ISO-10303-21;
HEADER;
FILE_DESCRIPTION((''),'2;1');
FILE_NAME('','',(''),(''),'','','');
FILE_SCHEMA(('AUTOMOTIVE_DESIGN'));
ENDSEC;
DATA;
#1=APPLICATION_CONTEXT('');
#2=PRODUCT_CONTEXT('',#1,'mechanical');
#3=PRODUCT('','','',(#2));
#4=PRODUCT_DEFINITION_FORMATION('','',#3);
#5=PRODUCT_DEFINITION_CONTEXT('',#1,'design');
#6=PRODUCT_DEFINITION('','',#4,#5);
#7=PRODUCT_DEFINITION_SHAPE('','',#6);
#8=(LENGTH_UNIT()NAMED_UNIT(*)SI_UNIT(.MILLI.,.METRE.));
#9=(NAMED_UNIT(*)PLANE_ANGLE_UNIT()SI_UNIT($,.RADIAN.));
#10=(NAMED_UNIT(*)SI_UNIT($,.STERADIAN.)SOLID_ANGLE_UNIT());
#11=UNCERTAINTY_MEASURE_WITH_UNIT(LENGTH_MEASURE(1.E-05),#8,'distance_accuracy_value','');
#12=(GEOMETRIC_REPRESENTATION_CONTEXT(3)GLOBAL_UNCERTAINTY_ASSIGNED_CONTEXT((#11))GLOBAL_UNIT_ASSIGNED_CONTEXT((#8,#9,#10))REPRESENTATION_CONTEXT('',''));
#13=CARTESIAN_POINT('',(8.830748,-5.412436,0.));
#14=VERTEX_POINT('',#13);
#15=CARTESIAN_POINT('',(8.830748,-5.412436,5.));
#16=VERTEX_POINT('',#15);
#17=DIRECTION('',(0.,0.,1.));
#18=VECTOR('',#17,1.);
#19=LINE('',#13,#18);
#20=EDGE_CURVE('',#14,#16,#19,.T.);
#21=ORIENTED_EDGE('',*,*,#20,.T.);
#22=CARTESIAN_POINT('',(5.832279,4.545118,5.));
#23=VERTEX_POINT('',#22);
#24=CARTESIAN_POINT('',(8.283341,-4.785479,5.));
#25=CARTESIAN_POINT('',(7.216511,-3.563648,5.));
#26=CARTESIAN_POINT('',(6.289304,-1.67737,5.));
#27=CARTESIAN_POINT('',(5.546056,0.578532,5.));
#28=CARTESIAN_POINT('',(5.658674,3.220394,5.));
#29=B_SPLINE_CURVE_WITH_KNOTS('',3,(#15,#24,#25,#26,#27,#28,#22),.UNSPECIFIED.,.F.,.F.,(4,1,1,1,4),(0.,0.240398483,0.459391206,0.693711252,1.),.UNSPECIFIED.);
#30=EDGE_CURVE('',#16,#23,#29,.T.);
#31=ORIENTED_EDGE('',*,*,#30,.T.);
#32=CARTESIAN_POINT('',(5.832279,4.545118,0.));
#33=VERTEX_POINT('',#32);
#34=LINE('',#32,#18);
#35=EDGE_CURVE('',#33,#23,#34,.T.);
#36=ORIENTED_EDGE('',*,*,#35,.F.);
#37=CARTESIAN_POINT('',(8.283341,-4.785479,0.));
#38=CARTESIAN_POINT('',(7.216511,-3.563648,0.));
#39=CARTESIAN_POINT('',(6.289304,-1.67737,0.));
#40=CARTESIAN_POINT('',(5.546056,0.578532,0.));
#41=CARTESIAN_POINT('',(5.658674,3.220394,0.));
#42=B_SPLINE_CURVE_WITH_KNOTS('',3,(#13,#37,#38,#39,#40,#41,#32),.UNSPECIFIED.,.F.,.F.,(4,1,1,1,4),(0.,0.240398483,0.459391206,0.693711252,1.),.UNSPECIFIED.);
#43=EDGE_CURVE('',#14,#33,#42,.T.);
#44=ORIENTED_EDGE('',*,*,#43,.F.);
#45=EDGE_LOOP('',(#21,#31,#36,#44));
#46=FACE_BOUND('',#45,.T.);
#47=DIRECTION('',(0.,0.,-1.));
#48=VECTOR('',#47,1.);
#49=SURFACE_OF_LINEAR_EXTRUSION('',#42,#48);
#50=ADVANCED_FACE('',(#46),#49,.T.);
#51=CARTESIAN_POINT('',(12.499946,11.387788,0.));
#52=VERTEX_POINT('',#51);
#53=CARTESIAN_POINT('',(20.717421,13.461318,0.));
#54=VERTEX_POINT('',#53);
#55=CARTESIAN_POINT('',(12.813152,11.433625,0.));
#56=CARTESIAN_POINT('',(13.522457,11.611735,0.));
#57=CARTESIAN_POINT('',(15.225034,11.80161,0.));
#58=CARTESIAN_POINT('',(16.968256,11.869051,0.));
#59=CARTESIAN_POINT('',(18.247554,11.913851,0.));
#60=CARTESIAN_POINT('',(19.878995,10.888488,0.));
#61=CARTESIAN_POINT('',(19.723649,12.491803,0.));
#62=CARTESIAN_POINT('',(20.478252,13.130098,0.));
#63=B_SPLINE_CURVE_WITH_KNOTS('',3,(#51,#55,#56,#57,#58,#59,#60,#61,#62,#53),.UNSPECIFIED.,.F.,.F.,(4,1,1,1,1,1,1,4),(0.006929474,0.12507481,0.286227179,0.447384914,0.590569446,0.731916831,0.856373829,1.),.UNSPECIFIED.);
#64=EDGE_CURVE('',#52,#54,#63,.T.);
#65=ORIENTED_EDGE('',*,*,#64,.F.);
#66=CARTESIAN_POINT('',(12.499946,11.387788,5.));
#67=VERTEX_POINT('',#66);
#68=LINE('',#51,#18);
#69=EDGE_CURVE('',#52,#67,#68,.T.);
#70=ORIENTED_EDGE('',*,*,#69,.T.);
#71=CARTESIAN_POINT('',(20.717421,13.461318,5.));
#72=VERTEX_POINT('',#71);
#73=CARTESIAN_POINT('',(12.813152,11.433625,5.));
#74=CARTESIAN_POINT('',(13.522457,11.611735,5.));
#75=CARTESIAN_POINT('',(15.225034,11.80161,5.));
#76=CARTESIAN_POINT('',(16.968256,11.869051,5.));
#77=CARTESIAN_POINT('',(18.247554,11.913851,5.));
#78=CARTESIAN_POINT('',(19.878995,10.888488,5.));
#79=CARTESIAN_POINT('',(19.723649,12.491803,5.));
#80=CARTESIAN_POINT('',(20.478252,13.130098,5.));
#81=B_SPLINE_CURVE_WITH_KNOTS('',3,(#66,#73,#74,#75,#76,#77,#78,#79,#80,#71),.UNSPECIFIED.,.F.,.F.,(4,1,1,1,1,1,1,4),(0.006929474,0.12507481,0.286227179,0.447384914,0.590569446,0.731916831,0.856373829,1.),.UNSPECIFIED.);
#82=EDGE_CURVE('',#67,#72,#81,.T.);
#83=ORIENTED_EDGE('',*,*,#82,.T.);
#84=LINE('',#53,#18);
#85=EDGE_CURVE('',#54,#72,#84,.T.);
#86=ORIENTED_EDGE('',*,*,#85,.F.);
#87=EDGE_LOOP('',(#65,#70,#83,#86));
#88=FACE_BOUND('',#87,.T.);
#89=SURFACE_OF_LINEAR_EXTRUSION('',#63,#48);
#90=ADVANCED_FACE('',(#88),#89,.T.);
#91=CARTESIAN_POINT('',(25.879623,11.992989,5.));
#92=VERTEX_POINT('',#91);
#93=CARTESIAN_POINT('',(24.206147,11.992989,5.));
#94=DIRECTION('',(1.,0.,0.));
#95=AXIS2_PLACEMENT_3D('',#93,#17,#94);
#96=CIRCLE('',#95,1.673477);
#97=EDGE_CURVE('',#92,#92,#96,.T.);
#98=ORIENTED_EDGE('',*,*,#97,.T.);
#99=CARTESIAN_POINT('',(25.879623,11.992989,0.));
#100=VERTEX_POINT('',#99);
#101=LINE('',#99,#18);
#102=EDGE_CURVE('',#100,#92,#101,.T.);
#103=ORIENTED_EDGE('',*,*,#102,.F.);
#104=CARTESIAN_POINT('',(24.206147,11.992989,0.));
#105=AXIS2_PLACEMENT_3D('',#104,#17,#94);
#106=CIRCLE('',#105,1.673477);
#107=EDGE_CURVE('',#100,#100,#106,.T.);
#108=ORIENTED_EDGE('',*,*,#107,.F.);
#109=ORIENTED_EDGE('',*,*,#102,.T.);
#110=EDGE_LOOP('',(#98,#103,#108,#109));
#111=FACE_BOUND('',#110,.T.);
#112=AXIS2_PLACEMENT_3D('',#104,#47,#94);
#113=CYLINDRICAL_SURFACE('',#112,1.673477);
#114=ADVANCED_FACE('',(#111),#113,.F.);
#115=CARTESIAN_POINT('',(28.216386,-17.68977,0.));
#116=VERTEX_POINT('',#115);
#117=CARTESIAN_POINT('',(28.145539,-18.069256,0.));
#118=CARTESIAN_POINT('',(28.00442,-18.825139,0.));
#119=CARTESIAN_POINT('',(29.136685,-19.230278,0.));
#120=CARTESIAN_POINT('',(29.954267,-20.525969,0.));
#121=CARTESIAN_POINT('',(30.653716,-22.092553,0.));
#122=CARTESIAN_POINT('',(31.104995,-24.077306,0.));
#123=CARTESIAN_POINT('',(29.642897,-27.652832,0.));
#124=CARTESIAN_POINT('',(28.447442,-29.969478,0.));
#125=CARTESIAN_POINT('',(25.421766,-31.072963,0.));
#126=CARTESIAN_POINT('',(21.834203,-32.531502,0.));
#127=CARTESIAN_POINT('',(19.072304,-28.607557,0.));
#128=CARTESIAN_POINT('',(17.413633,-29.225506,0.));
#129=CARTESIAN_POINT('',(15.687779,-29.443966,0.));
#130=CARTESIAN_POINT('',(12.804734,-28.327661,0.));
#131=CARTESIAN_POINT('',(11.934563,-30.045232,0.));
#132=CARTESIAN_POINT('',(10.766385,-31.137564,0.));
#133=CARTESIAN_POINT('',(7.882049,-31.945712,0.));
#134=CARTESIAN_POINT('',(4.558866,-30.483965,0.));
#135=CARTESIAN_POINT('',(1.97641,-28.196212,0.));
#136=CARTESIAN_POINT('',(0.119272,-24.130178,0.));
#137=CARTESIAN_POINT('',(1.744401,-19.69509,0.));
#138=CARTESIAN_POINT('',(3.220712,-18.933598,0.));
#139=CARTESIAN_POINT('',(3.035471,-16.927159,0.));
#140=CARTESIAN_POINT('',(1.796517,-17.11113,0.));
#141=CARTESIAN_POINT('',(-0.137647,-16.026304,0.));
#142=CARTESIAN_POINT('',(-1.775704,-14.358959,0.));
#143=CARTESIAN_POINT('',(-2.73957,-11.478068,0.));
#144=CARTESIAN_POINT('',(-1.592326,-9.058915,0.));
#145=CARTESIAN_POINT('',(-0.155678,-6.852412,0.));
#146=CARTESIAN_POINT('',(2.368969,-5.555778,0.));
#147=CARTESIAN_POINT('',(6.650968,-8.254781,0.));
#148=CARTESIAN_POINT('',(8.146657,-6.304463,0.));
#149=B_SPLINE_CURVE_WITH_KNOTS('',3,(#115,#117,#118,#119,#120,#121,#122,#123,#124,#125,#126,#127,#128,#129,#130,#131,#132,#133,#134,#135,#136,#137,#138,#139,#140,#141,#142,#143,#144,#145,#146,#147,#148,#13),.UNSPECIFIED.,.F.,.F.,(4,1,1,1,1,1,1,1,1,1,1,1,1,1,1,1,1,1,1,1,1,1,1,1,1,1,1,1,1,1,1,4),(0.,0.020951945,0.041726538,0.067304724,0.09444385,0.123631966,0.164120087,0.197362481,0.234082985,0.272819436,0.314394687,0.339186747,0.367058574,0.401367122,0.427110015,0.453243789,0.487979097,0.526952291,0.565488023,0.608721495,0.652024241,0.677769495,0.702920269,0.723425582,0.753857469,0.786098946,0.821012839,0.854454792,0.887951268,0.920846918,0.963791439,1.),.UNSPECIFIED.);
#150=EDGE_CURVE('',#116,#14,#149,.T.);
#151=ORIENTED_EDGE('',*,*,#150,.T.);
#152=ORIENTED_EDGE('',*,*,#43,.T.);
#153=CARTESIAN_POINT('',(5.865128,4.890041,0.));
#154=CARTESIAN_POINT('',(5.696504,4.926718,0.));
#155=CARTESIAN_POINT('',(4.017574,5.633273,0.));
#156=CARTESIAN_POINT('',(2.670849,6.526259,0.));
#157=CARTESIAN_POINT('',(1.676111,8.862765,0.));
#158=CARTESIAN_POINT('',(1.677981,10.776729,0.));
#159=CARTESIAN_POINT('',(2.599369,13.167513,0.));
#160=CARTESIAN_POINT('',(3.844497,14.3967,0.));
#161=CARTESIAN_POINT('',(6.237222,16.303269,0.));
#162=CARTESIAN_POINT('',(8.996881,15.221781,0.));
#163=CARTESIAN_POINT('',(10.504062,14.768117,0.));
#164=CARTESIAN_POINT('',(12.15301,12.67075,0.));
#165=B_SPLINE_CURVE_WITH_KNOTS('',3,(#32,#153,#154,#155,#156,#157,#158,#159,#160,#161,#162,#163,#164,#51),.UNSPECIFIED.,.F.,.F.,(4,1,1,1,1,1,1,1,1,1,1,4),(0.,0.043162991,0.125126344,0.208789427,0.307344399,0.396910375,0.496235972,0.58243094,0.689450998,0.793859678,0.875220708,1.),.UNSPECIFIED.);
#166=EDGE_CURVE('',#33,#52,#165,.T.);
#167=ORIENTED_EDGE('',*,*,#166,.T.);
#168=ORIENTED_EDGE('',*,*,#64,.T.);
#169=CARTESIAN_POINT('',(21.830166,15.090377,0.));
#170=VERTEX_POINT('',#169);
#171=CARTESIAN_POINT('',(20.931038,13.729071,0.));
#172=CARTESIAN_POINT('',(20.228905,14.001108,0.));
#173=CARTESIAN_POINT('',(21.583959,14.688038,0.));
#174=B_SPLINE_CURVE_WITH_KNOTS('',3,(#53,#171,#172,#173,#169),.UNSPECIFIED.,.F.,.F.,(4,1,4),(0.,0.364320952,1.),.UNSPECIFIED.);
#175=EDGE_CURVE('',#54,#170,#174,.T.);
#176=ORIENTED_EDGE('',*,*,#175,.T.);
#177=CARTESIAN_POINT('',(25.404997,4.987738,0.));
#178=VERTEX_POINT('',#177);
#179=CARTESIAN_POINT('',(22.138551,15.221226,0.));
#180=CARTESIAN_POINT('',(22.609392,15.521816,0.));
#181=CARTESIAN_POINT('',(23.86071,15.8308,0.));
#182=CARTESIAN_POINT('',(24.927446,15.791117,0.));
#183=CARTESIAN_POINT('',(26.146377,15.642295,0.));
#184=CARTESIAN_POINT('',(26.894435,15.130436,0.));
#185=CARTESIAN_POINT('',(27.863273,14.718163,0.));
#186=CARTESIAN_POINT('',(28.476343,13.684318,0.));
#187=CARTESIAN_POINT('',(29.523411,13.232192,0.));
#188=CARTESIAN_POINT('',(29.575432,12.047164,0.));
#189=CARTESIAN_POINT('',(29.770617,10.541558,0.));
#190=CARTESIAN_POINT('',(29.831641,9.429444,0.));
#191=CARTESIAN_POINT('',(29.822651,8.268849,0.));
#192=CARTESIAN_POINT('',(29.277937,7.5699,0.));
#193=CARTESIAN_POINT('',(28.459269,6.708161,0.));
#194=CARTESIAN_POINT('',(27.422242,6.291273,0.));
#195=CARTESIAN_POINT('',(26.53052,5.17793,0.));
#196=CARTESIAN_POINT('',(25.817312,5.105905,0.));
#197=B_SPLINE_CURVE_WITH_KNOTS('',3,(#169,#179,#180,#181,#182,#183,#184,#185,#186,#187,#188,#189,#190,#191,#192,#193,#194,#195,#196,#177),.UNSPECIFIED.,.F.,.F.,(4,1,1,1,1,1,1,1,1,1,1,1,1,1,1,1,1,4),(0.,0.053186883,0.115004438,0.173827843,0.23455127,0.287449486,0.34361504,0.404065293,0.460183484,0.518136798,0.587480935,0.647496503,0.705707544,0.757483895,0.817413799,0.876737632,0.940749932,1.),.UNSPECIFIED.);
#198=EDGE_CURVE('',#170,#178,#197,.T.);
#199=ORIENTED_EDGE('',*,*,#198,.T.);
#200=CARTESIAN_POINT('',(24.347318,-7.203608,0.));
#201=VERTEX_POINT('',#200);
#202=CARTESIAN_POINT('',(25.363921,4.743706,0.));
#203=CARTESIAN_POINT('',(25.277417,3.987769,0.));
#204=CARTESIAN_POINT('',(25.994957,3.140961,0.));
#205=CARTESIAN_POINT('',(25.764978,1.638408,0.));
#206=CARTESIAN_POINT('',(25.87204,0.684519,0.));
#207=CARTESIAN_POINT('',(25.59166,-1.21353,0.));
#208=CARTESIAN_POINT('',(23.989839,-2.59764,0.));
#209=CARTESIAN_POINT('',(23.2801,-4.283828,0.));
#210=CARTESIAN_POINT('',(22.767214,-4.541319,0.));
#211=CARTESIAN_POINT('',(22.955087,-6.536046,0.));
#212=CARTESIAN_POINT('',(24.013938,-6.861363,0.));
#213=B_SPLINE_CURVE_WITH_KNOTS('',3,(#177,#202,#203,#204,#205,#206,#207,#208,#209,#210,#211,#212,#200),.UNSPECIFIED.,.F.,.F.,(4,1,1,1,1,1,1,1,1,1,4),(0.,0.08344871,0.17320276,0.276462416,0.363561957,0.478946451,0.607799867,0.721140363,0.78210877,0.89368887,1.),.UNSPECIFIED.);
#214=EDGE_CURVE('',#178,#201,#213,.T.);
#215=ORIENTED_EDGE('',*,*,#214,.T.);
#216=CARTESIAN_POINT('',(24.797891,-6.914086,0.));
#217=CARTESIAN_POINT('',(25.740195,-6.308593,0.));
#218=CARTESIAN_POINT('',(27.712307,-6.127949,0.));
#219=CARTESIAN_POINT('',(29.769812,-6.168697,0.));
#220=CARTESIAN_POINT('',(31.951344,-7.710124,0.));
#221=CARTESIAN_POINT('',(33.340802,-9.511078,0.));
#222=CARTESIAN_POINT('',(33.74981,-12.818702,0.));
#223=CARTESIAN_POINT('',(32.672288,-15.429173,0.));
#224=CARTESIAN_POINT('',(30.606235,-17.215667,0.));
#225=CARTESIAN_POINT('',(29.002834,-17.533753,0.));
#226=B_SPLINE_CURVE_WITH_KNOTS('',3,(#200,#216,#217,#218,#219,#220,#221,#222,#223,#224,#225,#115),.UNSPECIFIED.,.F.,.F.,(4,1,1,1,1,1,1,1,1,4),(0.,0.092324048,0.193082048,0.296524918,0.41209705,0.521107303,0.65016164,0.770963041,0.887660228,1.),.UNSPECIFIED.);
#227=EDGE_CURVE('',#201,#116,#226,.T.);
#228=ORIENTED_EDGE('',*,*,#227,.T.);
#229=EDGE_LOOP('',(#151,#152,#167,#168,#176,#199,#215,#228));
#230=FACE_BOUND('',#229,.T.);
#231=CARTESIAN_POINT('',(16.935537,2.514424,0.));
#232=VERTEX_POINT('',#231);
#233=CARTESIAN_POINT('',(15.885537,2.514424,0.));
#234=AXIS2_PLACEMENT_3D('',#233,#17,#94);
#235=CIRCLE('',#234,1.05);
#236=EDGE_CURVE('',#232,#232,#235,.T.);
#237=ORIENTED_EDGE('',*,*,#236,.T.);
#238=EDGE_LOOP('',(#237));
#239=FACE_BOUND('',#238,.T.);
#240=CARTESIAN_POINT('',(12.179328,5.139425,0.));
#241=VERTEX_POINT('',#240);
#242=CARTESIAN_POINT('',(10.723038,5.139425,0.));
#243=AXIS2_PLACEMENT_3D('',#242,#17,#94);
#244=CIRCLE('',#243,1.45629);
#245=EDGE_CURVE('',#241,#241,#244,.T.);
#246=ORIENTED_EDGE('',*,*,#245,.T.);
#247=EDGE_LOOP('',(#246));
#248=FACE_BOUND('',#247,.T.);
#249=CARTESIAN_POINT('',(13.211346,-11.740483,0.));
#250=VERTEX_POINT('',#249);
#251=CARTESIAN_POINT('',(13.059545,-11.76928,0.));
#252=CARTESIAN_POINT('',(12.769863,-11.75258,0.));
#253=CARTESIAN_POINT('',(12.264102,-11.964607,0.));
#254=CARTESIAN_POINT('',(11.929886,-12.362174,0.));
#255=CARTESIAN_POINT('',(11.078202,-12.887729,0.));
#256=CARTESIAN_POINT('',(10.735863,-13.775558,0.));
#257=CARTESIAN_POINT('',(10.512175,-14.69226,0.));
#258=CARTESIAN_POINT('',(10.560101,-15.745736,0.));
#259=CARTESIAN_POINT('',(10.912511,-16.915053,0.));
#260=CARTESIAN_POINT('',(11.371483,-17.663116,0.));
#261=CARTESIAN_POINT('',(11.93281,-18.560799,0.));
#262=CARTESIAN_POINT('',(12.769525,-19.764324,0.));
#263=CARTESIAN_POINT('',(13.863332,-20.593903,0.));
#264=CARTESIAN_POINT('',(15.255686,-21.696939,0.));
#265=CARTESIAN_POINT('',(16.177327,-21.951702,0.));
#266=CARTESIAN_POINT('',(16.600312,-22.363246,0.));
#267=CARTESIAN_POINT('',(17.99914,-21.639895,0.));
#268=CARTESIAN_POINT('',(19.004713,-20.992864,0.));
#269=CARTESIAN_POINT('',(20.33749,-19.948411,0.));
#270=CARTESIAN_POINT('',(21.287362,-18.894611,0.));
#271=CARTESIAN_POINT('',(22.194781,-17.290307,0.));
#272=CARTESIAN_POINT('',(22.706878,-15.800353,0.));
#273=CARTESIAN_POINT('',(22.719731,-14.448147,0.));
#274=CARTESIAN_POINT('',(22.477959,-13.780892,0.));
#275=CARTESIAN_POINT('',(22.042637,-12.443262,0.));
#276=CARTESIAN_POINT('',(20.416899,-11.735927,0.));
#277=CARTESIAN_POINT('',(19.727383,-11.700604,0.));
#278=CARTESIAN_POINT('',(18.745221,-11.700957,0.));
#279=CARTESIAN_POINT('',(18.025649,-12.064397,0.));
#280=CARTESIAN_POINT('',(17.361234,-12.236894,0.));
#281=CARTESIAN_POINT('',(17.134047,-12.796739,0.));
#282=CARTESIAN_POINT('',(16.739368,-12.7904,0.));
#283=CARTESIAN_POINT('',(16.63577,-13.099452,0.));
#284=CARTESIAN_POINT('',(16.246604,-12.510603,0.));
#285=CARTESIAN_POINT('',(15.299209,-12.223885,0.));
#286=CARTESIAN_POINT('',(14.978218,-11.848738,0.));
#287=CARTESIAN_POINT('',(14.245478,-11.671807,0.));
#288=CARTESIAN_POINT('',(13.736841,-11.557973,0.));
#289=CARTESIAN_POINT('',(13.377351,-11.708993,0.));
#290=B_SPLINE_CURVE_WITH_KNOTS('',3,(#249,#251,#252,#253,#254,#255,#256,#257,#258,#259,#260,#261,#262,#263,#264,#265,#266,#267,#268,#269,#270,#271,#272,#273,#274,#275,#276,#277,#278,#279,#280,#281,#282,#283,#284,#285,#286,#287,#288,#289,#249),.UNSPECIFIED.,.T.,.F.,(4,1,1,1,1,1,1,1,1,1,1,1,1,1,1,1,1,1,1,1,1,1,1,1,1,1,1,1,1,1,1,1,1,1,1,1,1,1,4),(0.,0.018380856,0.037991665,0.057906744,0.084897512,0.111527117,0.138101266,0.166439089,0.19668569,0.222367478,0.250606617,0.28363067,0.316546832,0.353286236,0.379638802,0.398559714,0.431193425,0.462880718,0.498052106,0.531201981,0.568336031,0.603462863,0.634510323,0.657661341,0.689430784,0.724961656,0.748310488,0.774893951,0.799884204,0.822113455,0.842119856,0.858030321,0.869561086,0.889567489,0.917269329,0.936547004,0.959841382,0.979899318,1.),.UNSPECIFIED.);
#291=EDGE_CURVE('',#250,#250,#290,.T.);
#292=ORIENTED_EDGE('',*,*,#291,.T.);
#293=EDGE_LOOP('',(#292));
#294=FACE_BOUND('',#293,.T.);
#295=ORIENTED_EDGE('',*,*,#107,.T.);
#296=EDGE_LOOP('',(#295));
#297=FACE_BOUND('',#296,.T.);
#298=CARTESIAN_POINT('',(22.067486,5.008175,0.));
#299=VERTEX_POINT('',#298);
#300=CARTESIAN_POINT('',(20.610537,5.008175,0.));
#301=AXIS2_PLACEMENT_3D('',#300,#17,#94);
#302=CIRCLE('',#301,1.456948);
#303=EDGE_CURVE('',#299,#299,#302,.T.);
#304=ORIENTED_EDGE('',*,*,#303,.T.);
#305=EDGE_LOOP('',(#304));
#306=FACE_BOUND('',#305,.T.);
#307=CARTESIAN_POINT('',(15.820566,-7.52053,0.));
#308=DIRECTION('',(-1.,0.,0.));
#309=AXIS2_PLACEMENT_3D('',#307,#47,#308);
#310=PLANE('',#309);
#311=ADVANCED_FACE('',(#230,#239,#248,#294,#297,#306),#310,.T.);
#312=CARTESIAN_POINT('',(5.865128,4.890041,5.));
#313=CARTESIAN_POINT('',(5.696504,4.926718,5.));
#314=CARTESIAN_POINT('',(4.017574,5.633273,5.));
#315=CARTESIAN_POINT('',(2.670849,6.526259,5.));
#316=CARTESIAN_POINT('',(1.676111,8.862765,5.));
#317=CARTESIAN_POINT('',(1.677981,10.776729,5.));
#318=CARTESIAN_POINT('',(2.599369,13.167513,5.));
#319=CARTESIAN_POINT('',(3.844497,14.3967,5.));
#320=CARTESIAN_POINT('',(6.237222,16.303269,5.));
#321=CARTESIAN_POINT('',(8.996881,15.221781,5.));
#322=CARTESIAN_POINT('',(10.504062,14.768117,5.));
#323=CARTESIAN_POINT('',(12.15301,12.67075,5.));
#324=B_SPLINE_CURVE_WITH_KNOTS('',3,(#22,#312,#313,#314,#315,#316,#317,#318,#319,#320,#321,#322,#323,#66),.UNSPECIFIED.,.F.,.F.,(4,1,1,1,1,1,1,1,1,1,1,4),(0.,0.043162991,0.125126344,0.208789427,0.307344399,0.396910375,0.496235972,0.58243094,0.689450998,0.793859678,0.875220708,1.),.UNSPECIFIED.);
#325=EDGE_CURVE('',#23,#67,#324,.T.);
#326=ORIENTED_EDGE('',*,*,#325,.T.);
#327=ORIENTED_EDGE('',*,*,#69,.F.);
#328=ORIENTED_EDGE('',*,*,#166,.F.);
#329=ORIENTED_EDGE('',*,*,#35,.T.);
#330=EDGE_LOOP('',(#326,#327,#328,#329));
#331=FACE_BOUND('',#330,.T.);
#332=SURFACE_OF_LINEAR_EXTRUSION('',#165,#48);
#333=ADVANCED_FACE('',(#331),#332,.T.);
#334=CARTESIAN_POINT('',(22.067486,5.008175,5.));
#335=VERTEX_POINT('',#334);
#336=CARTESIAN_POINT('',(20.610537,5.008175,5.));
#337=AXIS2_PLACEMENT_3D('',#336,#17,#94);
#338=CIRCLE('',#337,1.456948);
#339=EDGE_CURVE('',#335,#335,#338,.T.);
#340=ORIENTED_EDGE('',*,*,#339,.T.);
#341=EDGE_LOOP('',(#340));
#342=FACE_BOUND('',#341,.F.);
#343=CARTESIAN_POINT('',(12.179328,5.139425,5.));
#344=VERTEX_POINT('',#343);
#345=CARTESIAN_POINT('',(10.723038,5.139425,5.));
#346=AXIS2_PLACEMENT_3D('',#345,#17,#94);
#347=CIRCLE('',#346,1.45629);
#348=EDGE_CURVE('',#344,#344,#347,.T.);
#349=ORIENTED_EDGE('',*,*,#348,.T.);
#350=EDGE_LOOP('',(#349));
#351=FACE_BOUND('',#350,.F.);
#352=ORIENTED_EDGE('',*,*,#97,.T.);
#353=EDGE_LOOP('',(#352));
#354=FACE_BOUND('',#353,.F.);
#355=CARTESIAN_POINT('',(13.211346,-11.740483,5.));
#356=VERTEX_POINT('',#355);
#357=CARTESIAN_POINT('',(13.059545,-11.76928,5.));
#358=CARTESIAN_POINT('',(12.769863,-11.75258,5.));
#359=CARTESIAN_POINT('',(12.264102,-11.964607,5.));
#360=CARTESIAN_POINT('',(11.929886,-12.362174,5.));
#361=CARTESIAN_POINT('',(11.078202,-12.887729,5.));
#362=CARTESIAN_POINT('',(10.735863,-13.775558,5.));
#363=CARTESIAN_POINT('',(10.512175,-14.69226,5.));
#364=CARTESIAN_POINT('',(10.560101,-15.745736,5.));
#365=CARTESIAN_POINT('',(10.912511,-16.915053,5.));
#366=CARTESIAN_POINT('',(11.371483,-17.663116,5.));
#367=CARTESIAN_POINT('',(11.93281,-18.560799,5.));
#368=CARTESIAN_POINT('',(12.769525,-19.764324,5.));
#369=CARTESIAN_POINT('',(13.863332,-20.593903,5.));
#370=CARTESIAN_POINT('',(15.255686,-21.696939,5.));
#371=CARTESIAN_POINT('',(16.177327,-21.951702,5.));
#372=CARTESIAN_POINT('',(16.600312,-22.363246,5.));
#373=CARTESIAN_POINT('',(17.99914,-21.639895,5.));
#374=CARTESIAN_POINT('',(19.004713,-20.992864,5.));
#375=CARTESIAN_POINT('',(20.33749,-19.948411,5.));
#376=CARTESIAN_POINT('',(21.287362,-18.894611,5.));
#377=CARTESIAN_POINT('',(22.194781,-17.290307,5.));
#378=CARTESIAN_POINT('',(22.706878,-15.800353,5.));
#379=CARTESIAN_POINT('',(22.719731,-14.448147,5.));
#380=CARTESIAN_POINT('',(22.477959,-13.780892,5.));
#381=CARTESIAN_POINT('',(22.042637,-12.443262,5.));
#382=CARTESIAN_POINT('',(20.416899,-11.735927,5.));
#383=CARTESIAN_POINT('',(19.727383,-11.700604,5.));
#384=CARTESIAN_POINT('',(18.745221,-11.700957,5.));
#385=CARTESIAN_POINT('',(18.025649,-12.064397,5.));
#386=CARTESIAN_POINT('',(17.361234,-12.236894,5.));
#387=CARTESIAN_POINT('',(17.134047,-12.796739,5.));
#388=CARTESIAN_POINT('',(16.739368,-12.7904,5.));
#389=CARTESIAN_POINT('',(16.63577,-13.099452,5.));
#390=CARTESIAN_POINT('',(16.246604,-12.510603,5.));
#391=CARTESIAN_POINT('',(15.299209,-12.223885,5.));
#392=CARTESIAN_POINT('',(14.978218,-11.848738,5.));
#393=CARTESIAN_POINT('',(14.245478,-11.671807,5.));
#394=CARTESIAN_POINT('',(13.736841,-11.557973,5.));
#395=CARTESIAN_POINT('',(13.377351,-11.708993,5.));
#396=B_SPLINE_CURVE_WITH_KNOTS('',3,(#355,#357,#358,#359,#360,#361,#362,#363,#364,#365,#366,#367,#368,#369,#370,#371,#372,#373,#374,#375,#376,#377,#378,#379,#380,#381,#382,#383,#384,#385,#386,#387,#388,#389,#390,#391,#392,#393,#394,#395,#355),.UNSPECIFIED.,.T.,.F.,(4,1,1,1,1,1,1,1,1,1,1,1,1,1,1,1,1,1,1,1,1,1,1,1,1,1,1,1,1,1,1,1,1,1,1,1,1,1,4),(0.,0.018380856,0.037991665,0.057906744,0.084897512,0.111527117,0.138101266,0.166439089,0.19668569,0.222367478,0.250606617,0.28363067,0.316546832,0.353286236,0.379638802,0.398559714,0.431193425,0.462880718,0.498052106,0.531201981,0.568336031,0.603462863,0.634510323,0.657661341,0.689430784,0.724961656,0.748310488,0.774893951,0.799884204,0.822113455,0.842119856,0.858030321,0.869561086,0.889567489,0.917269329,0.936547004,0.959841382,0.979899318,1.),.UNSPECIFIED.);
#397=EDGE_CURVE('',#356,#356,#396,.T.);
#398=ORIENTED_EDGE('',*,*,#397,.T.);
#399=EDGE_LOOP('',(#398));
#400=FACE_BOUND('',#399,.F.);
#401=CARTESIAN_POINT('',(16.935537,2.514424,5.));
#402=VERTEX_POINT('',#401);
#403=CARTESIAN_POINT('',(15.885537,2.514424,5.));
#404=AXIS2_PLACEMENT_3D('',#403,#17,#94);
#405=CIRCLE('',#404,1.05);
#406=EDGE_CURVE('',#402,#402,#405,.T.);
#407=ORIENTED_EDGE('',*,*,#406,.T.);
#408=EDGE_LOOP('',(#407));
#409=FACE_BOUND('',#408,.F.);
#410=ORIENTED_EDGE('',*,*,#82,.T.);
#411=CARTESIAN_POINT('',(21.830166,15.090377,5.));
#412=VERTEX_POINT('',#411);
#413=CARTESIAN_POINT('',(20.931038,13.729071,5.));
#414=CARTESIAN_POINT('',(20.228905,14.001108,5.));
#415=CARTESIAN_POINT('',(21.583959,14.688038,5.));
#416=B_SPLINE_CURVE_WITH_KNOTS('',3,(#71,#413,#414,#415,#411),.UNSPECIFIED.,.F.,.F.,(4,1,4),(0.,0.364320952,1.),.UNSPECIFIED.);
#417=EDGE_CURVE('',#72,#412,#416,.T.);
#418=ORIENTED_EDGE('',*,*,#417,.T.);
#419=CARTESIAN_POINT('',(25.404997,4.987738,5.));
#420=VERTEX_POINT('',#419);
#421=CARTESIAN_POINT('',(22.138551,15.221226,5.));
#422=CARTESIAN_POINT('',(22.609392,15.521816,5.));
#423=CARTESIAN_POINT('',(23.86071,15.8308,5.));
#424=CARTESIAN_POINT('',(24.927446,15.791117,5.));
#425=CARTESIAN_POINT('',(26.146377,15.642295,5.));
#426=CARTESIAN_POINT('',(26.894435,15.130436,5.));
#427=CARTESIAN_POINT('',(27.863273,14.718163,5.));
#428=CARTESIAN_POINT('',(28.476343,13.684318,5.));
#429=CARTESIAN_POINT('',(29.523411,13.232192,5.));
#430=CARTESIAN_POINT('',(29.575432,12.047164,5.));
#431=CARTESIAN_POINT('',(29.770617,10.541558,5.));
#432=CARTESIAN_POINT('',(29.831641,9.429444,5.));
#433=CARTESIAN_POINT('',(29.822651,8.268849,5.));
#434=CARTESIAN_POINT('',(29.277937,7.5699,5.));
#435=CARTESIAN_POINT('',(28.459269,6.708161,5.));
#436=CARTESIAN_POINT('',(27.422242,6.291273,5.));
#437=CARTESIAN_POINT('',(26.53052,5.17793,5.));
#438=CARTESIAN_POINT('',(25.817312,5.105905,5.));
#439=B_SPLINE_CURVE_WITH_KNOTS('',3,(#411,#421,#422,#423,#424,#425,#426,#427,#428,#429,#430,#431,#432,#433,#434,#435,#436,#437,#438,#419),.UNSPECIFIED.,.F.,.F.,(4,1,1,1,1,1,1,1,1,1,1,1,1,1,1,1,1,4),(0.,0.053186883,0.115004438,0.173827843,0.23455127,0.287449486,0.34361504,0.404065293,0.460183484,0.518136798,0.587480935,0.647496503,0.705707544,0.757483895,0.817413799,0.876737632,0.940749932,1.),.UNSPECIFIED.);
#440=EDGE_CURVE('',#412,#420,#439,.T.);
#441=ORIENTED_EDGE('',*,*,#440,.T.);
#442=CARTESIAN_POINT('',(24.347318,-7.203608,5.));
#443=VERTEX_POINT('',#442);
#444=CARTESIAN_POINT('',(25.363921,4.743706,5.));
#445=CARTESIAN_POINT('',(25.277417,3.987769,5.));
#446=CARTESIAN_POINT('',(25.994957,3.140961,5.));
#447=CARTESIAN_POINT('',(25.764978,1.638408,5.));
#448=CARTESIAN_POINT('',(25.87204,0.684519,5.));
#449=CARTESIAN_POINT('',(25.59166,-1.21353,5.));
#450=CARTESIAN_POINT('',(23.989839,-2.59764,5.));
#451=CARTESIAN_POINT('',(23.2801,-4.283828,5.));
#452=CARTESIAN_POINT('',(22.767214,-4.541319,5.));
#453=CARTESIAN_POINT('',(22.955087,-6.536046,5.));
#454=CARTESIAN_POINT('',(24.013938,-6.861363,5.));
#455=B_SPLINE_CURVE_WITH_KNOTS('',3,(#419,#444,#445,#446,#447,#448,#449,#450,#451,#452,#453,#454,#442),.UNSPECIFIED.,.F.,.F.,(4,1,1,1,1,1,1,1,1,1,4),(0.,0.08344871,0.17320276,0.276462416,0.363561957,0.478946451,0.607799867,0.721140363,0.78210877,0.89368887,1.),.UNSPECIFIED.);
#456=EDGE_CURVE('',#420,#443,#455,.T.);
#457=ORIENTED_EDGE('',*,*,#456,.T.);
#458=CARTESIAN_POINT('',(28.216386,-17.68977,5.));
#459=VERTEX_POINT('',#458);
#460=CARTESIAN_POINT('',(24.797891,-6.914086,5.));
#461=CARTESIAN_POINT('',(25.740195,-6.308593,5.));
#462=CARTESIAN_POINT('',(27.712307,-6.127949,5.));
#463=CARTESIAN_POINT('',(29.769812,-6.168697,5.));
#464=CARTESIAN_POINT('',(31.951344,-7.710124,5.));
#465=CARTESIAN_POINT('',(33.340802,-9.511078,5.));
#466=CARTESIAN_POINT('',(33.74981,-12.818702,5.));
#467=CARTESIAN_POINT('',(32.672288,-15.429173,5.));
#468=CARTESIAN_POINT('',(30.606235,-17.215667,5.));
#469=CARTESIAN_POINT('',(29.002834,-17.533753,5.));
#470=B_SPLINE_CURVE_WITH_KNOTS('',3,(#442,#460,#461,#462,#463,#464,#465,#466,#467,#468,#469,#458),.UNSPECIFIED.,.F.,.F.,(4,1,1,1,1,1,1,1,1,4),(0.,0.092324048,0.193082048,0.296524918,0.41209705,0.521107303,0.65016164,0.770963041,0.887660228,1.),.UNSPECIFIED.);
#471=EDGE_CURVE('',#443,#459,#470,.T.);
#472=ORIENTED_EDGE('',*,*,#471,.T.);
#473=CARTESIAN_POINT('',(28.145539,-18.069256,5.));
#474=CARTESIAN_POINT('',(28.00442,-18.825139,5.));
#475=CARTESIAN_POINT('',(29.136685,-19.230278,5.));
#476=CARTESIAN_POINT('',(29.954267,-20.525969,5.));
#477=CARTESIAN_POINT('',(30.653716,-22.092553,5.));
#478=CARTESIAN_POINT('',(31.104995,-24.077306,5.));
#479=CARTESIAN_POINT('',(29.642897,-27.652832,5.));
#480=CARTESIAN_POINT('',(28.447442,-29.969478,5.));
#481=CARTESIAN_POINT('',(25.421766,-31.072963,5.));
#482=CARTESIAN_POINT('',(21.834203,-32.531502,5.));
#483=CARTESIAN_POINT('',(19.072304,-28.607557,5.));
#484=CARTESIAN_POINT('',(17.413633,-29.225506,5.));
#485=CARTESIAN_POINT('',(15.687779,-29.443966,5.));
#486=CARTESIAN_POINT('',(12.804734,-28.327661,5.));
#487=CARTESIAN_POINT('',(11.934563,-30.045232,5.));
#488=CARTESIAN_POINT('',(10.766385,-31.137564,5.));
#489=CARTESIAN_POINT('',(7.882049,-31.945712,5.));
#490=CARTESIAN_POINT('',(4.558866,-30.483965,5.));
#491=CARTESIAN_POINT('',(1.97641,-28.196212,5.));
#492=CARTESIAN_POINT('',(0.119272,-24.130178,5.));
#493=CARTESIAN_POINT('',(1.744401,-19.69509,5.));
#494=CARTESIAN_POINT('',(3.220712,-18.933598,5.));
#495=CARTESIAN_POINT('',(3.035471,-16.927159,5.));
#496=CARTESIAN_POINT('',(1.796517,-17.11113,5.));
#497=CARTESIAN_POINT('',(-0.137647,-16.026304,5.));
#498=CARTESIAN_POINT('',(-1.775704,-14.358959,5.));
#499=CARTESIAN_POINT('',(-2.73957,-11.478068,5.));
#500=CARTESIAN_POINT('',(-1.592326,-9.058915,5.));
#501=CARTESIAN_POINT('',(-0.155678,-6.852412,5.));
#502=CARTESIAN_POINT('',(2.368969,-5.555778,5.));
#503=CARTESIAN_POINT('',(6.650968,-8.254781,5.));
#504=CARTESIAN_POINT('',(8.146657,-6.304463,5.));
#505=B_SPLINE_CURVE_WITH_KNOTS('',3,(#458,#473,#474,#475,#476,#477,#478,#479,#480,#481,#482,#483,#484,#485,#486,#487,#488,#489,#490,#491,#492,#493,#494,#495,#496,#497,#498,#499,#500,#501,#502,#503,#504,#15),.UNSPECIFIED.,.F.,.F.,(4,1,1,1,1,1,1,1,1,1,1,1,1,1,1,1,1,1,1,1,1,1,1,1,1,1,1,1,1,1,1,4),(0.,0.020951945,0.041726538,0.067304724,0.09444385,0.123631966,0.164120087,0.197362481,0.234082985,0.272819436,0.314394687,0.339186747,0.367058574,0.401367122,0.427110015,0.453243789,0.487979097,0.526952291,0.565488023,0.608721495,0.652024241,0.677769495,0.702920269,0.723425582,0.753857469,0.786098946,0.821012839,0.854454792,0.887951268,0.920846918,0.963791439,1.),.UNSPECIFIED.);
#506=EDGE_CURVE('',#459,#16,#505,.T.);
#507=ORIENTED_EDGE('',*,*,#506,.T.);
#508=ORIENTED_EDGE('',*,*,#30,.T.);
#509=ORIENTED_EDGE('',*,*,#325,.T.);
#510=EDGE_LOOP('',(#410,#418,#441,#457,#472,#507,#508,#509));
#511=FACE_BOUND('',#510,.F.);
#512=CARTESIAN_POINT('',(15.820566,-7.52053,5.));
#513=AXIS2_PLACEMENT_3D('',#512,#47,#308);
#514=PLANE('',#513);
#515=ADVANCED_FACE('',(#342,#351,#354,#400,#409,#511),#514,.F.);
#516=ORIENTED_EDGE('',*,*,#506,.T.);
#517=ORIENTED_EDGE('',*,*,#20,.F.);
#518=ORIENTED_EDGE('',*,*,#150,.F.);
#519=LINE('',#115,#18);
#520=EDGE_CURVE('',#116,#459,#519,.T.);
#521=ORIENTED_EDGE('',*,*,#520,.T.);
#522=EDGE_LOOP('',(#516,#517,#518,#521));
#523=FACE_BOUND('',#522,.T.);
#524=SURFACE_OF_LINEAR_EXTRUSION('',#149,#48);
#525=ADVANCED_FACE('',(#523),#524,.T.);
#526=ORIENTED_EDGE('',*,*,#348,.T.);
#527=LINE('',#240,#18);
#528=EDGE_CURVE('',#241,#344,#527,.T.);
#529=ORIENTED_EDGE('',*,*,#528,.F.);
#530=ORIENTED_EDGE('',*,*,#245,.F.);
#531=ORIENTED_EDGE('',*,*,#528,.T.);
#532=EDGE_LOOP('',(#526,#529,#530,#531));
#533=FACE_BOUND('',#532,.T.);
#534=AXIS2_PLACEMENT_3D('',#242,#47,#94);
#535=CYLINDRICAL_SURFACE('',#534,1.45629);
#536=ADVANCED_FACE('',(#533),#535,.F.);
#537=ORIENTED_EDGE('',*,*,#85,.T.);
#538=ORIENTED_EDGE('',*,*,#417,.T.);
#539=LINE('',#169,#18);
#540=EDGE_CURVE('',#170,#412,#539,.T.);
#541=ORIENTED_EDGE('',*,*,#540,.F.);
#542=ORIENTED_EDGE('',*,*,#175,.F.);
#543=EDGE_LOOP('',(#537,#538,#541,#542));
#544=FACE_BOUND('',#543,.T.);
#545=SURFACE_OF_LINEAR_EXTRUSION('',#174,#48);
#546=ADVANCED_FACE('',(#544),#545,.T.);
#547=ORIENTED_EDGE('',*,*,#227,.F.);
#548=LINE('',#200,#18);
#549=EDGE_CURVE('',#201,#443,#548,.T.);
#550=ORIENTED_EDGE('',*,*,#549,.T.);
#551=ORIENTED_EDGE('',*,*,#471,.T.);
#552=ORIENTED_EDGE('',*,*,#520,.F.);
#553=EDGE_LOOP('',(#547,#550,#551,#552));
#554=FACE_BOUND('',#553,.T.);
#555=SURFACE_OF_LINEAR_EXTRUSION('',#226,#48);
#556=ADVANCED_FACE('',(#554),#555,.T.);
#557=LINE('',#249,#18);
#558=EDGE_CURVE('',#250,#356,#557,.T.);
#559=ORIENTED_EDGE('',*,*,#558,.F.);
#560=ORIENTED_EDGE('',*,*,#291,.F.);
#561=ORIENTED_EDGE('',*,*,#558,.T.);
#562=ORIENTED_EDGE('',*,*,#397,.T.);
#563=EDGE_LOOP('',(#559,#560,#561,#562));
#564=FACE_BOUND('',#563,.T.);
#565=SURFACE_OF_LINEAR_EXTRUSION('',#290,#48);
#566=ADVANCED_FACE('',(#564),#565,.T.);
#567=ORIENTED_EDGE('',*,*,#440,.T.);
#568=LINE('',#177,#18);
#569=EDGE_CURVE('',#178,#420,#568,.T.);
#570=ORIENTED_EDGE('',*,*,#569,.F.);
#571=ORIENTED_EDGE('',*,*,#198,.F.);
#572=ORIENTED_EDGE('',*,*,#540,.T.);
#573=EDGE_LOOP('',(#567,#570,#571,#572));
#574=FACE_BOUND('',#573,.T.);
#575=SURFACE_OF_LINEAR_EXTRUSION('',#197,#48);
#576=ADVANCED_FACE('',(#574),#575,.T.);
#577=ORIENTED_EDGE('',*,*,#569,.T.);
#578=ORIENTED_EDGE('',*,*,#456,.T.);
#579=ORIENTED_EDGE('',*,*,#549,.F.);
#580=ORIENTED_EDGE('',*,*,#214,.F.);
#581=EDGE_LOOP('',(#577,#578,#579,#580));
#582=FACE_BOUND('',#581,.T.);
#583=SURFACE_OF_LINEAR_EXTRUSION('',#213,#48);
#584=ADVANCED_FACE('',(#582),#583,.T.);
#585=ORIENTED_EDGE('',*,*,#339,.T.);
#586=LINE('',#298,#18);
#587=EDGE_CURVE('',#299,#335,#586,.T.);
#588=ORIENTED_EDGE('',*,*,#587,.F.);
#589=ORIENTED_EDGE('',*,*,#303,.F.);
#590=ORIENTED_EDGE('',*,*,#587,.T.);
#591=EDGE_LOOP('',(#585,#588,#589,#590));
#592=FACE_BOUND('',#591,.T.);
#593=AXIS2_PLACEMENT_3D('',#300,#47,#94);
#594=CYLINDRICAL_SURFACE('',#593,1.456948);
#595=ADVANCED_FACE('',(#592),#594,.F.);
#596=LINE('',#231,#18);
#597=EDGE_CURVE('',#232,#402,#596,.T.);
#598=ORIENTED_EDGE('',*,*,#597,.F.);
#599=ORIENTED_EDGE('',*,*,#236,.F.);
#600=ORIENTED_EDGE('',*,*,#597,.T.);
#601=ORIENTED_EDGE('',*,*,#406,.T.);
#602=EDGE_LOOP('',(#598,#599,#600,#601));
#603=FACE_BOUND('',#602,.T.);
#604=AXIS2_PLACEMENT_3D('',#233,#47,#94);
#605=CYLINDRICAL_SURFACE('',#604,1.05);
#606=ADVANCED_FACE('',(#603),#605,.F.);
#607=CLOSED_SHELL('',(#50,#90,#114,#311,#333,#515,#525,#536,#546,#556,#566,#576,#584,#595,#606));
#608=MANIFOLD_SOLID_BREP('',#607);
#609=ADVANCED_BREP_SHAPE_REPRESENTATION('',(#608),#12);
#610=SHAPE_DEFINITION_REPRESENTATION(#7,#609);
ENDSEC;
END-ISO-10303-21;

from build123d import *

# Parameters (mm, degrees)
F0_R     = 1.4562904896
F0_R_2   = 1.0499996133
F0_R_3   = 1.4569481774
F0_R_4   = 1.6734766458
F1_DEPTH = 5


with BuildPart() as f1:
    # F0 (on Top) → F1 (new body)
    with BuildSketch(Plane.XY):
        with BuildLine():
            add(Edge.make_bspline(
                [(12.4999461821, 11.3877876494), (12.8131523659, 11.4336249934), (13.5224566325, 11.6117352517), (15.2250339978, 11.8016104091), (16.9682555743, 11.8690505105), (18.2475536475, 11.9138505821), (19.8789952564, 10.8884877841), (19.7236486819, 12.4918026387), (20.4782518776, 13.1300977353), (20.7174214268, 13.4613178226)],
                knots=[0.0069294737, 0.0069294737, 0.0069294737, 0.0069294737, 0.1250748101, 0.2862271787, 0.4473849144, 0.5905694457, 0.7319168307, 0.8563738293, 1, 1, 1, 1], degree=3))
            add(Edge.make_bspline(
                [(5.8322786354, 4.5451181941), (5.8651284274, 4.890040781), (5.6965042838, 4.9267183329), (4.0175741913, 5.633272593), (2.670849384, 6.5262586121), (1.6761111798, 8.862765469), (1.677980994, 10.7767290339), (2.5993687752, 13.1675129186), (3.844497364, 14.3966996231), (6.2372217266, 16.303269178), (8.9968806632, 15.221781115), (10.5040619137, 14.7681166949), (12.153009855, 12.6707497851), (12.4999461821, 11.3877876494)],
                knots=[0, 0, 0, 0, 0.0431629915, 0.1251263443, 0.2087894266, 0.3073443985, 0.3969103754, 0.4962359716, 0.5824309395, 0.6894509979, 0.7938596782, 0.8752207082, 1, 1, 1, 1], degree=3))
            add(Edge.make_bspline(
                [(8.8307475671, -5.4124360904), (8.283340673, -4.7854794132), (7.2165111063, -3.5636477615), (6.2893041208, -1.6773703896), (5.5460557533, 0.5785318011), (5.658674065, 3.2203944849), (5.8322786354, 4.5451181941)],
                knots=[0, 0, 0, 0, 0.2403984831, 0.459391206, 0.693711252, 1, 1, 1, 1], degree=3))
            add(Edge.make_bspline(
                [(28.2163862139, -17.6897700876), (28.145538598, -18.0692555232), (28.0044198444, -18.8251388136), (29.1366846145, -19.2302780663), (29.9542671765, -20.5259692572), (30.6537156718, -22.0925529988), (31.1049951176, -24.0773057201), (29.6428973112, -27.6528324069), (28.447442083, -29.9694779553), (25.4217658887, -31.0729633614), (21.8342031345, -32.5315021412), (19.072303982, -28.6075573494), (17.4136328646, -29.2255059245), (15.6877791374, -29.4439661337), (12.804733876, -28.3276605892), (11.9345630587, -30.0452322709), (10.7663853334, -31.1375638734), (7.8820494308, -31.9457117308), (4.5588656855, -30.4839645979), (1.9764102611, -28.1962124854), (0.119272304, -24.1301779129), (1.744401108, -19.6950901939), (3.2207118496, -18.9335977236), (3.0354713175, -16.9271589937), (1.7965168968, -17.1111304742), (-0.1376474348, -16.0263040982), (-1.7757035216, -14.358958849), (-2.7395697195, -11.4780683637), (-1.5923262912, -9.0589146992), (-0.1556783745, -6.8524121646), (2.3689694543, -5.5557782383), (6.6509684785, -8.2547814052), (8.1466567388, -6.3044633471), (8.8307475671, -5.4124360904)],
                knots=[0, 0, 0, 0, 0.0209519449, 0.041726538, 0.0673047243, 0.0944438498, 0.1236319656, 0.1641200869, 0.1973624807, 0.2340829853, 0.272819436, 0.3143946865, 0.3391867475, 0.3670585738, 0.401367122, 0.4271100149, 0.4532437892, 0.4879790973, 0.5269522908, 0.565488023, 0.608721495, 0.6520242414, 0.6777694952, 0.7029202691, 0.7234255824, 0.7538574689, 0.7860989456, 0.8210128394, 0.8544547924, 0.8879512682, 0.9208469179, 0.9637914393, 1, 1, 1, 1], degree=3))
            add(Edge.make_bspline(
                [(24.3473183364, -7.2036082856), (24.7978905518, -6.9140859838), (25.7401954824, -6.3085930503), (27.7123073086, -6.1279485782), (29.7698121819, -6.1686967941), (31.9513438638, -7.7101240236), (33.3408016608, -9.5110780223), (33.7498102507, -12.8187020976), (32.6722882475, -15.4291732838), (30.6062346262, -17.2156670939), (29.0028341496, -17.5337529449), (28.2163862139, -17.6897700876)],
                knots=[0, 0, 0, 0, 0.0923240483, 0.1930820476, 0.2965249177, 0.4120970504, 0.5211073033, 0.6501616403, 0.770963041, 0.8876602282, 1, 1, 1, 1], degree=3))
            add(Edge.make_bspline(
                [(25.4049970193, 4.9877377171), (25.3639214808, 4.7437058621), (25.2774174318, 3.9877690224), (25.994956527, 3.1409612248), (25.764977736, 1.6384078338), (25.8720399176, 0.6845189782), (25.5916604982, -1.2135300546), (23.9898390549, -2.5976401474), (23.2800995509, -4.2838275487), (22.7672135157, -4.5413191856), (22.9550871288, -6.5360455975), (24.0139384089, -6.8613631913), (24.3473183364, -7.2036082856)],
                knots=[0, 0, 0, 0, 0.08344871, 0.1732027601, 0.2764624163, 0.3635619566, 0.478946451, 0.6077998672, 0.7211403628, 0.78210877, 0.89368887, 1, 1, 1, 1], degree=3))
            add(Edge.make_bspline(
                [(21.8301658301, 15.0903765152), (22.1385509516, 15.2212262785), (22.6093921771, 15.5218160089), (23.8607104641, 15.8308003218), (24.9274461894, 15.7911173388), (26.146377383, 15.6422950216), (26.8944349391, 15.1304356751), (27.8632728369, 14.7181628813), (28.4763426223, 13.6843183727), (29.5234109265, 13.2321915122), (29.5754323164, 12.0471640063), (29.7706168343, 10.5415578737), (29.8316406574, 9.4294435245), (29.8226513733, 8.2688492202), (29.2779370184, 7.5699003809), (28.4592686138, 6.7081614709), (27.422242384, 6.2912726655), (26.5305204778, 5.1779303309), (25.8173116341, 5.1059046315), (25.4049970193, 4.9877377171)],
                knots=[0, 0, 0, 0, 0.0531868833, 0.1150044381, 0.1738278429, 0.2345512698, 0.2874494859, 0.3436150404, 0.4040652927, 0.4601834837, 0.5181367984, 0.587480935, 0.6474965028, 0.7057075441, 0.7574838951, 0.8174137992, 0.8767376317, 0.9407499319, 1, 1, 1, 1], degree=3))
            add(Edge.make_bspline(
                [(20.7174214268, 13.4613178226), (20.9310384505, 13.7290709818), (20.228905104, 14.0011076285), (21.5839593833, 14.6880382011), (21.8301658301, 15.0903765152)],
                knots=[0, 0, 0, 0, 0.3643209516, 1, 1, 1, 1], degree=3))
        make_face()
        with BuildLine():
            add(Edge.make_bspline(
                [(13.2113462314, -11.7404833436), (13.059545028, -11.7692797277), (12.7698634703, -11.7525797298), (12.264102392, -11.9646071508), (11.9298861053, -12.3621738515), (11.078202023, -12.8877292556), (10.735862983, -13.7755577919), (10.5121754932, -14.6922599053), (10.5601008323, -15.7457358523), (10.9125110535, -16.9150532313), (11.3714829892, -17.6631163089), (11.9328104847, -18.5607992041), (12.7695250765, -19.7643240378), (13.8633324343, -20.5939030528), (15.2556863177, -21.6969393915), (16.1773270336, -21.9517022301), (16.6003121909, -22.3632464205), (17.9991404468, -21.6398951779), (19.0047127109, -20.9928644373), (20.3374901363, -19.948410731), (21.2873615307, -18.8946111491), (22.19478095, -17.2903074332), (22.7068784802, -15.8003530842), (22.7197309189, -14.4481467088), (22.477958562, -13.7808924466), (22.0426371655, -12.4432621073), (20.4168992322, -11.7359268401), (19.7273828064, -11.7006041101), (18.7452206528, -11.7009567306), (18.0256491007, -12.0643970123), (17.3612336913, -12.2368935247), (17.1340469907, -12.7967391739), (16.7393681318, -12.790399594), (16.6357700595, -13.0994523853), (16.2466044681, -12.5106034265), (15.2992091124, -12.2238850053), (14.9782180274, -11.8487376917), (14.2454777285, -11.6718073806), (13.7368406289, -11.5579726463), (13.3773508918, -11.7089925922), (13.2113462314, -11.7404833436)],
                knots=[0, 0, 0, 0, 0.0183808558, 0.0379916645, 0.0579067435, 0.0848975118, 0.1115271171, 0.1381012664, 0.1664390891, 0.1966856895, 0.2223674781, 0.2506066168, 0.2836306697, 0.3165468318, 0.3532862362, 0.3796388018, 0.3985597137, 0.4311934246, 0.4628807182, 0.4980521064, 0.5312019808, 0.5683360309, 0.6034628626, 0.6345103229, 0.657661341, 0.6894307845, 0.7249616559, 0.7483104876, 0.7748939509, 0.7998842038, 0.8221134548, 0.8421198563, 0.8580303214, 0.8695610858, 0.8895674894, 0.9172693295, 0.936547004, 0.9598413821, 0.979899318, 1, 1, 1, 1], degree=3))
        make_face(mode=Mode.SUBTRACT)
        with Locations((10.7230376452, 5.1394249313)):
            Circle(F0_R, mode=Mode.SUBTRACT)
        with Locations((15.8855374902, 2.5144242682)):
            Circle(F0_R_2, mode=Mode.SUBTRACT)
        with Locations((20.61053738, 5.0081750378)):
            Circle(F0_R_3, mode=Mode.SUBTRACT)
        with Locations((24.2061465979, 11.992989108)):
            Circle(F0_R_4, mode=Mode.SUBTRACT)
    extrude(amount=F1_DEPTH)


solid = f1.part
